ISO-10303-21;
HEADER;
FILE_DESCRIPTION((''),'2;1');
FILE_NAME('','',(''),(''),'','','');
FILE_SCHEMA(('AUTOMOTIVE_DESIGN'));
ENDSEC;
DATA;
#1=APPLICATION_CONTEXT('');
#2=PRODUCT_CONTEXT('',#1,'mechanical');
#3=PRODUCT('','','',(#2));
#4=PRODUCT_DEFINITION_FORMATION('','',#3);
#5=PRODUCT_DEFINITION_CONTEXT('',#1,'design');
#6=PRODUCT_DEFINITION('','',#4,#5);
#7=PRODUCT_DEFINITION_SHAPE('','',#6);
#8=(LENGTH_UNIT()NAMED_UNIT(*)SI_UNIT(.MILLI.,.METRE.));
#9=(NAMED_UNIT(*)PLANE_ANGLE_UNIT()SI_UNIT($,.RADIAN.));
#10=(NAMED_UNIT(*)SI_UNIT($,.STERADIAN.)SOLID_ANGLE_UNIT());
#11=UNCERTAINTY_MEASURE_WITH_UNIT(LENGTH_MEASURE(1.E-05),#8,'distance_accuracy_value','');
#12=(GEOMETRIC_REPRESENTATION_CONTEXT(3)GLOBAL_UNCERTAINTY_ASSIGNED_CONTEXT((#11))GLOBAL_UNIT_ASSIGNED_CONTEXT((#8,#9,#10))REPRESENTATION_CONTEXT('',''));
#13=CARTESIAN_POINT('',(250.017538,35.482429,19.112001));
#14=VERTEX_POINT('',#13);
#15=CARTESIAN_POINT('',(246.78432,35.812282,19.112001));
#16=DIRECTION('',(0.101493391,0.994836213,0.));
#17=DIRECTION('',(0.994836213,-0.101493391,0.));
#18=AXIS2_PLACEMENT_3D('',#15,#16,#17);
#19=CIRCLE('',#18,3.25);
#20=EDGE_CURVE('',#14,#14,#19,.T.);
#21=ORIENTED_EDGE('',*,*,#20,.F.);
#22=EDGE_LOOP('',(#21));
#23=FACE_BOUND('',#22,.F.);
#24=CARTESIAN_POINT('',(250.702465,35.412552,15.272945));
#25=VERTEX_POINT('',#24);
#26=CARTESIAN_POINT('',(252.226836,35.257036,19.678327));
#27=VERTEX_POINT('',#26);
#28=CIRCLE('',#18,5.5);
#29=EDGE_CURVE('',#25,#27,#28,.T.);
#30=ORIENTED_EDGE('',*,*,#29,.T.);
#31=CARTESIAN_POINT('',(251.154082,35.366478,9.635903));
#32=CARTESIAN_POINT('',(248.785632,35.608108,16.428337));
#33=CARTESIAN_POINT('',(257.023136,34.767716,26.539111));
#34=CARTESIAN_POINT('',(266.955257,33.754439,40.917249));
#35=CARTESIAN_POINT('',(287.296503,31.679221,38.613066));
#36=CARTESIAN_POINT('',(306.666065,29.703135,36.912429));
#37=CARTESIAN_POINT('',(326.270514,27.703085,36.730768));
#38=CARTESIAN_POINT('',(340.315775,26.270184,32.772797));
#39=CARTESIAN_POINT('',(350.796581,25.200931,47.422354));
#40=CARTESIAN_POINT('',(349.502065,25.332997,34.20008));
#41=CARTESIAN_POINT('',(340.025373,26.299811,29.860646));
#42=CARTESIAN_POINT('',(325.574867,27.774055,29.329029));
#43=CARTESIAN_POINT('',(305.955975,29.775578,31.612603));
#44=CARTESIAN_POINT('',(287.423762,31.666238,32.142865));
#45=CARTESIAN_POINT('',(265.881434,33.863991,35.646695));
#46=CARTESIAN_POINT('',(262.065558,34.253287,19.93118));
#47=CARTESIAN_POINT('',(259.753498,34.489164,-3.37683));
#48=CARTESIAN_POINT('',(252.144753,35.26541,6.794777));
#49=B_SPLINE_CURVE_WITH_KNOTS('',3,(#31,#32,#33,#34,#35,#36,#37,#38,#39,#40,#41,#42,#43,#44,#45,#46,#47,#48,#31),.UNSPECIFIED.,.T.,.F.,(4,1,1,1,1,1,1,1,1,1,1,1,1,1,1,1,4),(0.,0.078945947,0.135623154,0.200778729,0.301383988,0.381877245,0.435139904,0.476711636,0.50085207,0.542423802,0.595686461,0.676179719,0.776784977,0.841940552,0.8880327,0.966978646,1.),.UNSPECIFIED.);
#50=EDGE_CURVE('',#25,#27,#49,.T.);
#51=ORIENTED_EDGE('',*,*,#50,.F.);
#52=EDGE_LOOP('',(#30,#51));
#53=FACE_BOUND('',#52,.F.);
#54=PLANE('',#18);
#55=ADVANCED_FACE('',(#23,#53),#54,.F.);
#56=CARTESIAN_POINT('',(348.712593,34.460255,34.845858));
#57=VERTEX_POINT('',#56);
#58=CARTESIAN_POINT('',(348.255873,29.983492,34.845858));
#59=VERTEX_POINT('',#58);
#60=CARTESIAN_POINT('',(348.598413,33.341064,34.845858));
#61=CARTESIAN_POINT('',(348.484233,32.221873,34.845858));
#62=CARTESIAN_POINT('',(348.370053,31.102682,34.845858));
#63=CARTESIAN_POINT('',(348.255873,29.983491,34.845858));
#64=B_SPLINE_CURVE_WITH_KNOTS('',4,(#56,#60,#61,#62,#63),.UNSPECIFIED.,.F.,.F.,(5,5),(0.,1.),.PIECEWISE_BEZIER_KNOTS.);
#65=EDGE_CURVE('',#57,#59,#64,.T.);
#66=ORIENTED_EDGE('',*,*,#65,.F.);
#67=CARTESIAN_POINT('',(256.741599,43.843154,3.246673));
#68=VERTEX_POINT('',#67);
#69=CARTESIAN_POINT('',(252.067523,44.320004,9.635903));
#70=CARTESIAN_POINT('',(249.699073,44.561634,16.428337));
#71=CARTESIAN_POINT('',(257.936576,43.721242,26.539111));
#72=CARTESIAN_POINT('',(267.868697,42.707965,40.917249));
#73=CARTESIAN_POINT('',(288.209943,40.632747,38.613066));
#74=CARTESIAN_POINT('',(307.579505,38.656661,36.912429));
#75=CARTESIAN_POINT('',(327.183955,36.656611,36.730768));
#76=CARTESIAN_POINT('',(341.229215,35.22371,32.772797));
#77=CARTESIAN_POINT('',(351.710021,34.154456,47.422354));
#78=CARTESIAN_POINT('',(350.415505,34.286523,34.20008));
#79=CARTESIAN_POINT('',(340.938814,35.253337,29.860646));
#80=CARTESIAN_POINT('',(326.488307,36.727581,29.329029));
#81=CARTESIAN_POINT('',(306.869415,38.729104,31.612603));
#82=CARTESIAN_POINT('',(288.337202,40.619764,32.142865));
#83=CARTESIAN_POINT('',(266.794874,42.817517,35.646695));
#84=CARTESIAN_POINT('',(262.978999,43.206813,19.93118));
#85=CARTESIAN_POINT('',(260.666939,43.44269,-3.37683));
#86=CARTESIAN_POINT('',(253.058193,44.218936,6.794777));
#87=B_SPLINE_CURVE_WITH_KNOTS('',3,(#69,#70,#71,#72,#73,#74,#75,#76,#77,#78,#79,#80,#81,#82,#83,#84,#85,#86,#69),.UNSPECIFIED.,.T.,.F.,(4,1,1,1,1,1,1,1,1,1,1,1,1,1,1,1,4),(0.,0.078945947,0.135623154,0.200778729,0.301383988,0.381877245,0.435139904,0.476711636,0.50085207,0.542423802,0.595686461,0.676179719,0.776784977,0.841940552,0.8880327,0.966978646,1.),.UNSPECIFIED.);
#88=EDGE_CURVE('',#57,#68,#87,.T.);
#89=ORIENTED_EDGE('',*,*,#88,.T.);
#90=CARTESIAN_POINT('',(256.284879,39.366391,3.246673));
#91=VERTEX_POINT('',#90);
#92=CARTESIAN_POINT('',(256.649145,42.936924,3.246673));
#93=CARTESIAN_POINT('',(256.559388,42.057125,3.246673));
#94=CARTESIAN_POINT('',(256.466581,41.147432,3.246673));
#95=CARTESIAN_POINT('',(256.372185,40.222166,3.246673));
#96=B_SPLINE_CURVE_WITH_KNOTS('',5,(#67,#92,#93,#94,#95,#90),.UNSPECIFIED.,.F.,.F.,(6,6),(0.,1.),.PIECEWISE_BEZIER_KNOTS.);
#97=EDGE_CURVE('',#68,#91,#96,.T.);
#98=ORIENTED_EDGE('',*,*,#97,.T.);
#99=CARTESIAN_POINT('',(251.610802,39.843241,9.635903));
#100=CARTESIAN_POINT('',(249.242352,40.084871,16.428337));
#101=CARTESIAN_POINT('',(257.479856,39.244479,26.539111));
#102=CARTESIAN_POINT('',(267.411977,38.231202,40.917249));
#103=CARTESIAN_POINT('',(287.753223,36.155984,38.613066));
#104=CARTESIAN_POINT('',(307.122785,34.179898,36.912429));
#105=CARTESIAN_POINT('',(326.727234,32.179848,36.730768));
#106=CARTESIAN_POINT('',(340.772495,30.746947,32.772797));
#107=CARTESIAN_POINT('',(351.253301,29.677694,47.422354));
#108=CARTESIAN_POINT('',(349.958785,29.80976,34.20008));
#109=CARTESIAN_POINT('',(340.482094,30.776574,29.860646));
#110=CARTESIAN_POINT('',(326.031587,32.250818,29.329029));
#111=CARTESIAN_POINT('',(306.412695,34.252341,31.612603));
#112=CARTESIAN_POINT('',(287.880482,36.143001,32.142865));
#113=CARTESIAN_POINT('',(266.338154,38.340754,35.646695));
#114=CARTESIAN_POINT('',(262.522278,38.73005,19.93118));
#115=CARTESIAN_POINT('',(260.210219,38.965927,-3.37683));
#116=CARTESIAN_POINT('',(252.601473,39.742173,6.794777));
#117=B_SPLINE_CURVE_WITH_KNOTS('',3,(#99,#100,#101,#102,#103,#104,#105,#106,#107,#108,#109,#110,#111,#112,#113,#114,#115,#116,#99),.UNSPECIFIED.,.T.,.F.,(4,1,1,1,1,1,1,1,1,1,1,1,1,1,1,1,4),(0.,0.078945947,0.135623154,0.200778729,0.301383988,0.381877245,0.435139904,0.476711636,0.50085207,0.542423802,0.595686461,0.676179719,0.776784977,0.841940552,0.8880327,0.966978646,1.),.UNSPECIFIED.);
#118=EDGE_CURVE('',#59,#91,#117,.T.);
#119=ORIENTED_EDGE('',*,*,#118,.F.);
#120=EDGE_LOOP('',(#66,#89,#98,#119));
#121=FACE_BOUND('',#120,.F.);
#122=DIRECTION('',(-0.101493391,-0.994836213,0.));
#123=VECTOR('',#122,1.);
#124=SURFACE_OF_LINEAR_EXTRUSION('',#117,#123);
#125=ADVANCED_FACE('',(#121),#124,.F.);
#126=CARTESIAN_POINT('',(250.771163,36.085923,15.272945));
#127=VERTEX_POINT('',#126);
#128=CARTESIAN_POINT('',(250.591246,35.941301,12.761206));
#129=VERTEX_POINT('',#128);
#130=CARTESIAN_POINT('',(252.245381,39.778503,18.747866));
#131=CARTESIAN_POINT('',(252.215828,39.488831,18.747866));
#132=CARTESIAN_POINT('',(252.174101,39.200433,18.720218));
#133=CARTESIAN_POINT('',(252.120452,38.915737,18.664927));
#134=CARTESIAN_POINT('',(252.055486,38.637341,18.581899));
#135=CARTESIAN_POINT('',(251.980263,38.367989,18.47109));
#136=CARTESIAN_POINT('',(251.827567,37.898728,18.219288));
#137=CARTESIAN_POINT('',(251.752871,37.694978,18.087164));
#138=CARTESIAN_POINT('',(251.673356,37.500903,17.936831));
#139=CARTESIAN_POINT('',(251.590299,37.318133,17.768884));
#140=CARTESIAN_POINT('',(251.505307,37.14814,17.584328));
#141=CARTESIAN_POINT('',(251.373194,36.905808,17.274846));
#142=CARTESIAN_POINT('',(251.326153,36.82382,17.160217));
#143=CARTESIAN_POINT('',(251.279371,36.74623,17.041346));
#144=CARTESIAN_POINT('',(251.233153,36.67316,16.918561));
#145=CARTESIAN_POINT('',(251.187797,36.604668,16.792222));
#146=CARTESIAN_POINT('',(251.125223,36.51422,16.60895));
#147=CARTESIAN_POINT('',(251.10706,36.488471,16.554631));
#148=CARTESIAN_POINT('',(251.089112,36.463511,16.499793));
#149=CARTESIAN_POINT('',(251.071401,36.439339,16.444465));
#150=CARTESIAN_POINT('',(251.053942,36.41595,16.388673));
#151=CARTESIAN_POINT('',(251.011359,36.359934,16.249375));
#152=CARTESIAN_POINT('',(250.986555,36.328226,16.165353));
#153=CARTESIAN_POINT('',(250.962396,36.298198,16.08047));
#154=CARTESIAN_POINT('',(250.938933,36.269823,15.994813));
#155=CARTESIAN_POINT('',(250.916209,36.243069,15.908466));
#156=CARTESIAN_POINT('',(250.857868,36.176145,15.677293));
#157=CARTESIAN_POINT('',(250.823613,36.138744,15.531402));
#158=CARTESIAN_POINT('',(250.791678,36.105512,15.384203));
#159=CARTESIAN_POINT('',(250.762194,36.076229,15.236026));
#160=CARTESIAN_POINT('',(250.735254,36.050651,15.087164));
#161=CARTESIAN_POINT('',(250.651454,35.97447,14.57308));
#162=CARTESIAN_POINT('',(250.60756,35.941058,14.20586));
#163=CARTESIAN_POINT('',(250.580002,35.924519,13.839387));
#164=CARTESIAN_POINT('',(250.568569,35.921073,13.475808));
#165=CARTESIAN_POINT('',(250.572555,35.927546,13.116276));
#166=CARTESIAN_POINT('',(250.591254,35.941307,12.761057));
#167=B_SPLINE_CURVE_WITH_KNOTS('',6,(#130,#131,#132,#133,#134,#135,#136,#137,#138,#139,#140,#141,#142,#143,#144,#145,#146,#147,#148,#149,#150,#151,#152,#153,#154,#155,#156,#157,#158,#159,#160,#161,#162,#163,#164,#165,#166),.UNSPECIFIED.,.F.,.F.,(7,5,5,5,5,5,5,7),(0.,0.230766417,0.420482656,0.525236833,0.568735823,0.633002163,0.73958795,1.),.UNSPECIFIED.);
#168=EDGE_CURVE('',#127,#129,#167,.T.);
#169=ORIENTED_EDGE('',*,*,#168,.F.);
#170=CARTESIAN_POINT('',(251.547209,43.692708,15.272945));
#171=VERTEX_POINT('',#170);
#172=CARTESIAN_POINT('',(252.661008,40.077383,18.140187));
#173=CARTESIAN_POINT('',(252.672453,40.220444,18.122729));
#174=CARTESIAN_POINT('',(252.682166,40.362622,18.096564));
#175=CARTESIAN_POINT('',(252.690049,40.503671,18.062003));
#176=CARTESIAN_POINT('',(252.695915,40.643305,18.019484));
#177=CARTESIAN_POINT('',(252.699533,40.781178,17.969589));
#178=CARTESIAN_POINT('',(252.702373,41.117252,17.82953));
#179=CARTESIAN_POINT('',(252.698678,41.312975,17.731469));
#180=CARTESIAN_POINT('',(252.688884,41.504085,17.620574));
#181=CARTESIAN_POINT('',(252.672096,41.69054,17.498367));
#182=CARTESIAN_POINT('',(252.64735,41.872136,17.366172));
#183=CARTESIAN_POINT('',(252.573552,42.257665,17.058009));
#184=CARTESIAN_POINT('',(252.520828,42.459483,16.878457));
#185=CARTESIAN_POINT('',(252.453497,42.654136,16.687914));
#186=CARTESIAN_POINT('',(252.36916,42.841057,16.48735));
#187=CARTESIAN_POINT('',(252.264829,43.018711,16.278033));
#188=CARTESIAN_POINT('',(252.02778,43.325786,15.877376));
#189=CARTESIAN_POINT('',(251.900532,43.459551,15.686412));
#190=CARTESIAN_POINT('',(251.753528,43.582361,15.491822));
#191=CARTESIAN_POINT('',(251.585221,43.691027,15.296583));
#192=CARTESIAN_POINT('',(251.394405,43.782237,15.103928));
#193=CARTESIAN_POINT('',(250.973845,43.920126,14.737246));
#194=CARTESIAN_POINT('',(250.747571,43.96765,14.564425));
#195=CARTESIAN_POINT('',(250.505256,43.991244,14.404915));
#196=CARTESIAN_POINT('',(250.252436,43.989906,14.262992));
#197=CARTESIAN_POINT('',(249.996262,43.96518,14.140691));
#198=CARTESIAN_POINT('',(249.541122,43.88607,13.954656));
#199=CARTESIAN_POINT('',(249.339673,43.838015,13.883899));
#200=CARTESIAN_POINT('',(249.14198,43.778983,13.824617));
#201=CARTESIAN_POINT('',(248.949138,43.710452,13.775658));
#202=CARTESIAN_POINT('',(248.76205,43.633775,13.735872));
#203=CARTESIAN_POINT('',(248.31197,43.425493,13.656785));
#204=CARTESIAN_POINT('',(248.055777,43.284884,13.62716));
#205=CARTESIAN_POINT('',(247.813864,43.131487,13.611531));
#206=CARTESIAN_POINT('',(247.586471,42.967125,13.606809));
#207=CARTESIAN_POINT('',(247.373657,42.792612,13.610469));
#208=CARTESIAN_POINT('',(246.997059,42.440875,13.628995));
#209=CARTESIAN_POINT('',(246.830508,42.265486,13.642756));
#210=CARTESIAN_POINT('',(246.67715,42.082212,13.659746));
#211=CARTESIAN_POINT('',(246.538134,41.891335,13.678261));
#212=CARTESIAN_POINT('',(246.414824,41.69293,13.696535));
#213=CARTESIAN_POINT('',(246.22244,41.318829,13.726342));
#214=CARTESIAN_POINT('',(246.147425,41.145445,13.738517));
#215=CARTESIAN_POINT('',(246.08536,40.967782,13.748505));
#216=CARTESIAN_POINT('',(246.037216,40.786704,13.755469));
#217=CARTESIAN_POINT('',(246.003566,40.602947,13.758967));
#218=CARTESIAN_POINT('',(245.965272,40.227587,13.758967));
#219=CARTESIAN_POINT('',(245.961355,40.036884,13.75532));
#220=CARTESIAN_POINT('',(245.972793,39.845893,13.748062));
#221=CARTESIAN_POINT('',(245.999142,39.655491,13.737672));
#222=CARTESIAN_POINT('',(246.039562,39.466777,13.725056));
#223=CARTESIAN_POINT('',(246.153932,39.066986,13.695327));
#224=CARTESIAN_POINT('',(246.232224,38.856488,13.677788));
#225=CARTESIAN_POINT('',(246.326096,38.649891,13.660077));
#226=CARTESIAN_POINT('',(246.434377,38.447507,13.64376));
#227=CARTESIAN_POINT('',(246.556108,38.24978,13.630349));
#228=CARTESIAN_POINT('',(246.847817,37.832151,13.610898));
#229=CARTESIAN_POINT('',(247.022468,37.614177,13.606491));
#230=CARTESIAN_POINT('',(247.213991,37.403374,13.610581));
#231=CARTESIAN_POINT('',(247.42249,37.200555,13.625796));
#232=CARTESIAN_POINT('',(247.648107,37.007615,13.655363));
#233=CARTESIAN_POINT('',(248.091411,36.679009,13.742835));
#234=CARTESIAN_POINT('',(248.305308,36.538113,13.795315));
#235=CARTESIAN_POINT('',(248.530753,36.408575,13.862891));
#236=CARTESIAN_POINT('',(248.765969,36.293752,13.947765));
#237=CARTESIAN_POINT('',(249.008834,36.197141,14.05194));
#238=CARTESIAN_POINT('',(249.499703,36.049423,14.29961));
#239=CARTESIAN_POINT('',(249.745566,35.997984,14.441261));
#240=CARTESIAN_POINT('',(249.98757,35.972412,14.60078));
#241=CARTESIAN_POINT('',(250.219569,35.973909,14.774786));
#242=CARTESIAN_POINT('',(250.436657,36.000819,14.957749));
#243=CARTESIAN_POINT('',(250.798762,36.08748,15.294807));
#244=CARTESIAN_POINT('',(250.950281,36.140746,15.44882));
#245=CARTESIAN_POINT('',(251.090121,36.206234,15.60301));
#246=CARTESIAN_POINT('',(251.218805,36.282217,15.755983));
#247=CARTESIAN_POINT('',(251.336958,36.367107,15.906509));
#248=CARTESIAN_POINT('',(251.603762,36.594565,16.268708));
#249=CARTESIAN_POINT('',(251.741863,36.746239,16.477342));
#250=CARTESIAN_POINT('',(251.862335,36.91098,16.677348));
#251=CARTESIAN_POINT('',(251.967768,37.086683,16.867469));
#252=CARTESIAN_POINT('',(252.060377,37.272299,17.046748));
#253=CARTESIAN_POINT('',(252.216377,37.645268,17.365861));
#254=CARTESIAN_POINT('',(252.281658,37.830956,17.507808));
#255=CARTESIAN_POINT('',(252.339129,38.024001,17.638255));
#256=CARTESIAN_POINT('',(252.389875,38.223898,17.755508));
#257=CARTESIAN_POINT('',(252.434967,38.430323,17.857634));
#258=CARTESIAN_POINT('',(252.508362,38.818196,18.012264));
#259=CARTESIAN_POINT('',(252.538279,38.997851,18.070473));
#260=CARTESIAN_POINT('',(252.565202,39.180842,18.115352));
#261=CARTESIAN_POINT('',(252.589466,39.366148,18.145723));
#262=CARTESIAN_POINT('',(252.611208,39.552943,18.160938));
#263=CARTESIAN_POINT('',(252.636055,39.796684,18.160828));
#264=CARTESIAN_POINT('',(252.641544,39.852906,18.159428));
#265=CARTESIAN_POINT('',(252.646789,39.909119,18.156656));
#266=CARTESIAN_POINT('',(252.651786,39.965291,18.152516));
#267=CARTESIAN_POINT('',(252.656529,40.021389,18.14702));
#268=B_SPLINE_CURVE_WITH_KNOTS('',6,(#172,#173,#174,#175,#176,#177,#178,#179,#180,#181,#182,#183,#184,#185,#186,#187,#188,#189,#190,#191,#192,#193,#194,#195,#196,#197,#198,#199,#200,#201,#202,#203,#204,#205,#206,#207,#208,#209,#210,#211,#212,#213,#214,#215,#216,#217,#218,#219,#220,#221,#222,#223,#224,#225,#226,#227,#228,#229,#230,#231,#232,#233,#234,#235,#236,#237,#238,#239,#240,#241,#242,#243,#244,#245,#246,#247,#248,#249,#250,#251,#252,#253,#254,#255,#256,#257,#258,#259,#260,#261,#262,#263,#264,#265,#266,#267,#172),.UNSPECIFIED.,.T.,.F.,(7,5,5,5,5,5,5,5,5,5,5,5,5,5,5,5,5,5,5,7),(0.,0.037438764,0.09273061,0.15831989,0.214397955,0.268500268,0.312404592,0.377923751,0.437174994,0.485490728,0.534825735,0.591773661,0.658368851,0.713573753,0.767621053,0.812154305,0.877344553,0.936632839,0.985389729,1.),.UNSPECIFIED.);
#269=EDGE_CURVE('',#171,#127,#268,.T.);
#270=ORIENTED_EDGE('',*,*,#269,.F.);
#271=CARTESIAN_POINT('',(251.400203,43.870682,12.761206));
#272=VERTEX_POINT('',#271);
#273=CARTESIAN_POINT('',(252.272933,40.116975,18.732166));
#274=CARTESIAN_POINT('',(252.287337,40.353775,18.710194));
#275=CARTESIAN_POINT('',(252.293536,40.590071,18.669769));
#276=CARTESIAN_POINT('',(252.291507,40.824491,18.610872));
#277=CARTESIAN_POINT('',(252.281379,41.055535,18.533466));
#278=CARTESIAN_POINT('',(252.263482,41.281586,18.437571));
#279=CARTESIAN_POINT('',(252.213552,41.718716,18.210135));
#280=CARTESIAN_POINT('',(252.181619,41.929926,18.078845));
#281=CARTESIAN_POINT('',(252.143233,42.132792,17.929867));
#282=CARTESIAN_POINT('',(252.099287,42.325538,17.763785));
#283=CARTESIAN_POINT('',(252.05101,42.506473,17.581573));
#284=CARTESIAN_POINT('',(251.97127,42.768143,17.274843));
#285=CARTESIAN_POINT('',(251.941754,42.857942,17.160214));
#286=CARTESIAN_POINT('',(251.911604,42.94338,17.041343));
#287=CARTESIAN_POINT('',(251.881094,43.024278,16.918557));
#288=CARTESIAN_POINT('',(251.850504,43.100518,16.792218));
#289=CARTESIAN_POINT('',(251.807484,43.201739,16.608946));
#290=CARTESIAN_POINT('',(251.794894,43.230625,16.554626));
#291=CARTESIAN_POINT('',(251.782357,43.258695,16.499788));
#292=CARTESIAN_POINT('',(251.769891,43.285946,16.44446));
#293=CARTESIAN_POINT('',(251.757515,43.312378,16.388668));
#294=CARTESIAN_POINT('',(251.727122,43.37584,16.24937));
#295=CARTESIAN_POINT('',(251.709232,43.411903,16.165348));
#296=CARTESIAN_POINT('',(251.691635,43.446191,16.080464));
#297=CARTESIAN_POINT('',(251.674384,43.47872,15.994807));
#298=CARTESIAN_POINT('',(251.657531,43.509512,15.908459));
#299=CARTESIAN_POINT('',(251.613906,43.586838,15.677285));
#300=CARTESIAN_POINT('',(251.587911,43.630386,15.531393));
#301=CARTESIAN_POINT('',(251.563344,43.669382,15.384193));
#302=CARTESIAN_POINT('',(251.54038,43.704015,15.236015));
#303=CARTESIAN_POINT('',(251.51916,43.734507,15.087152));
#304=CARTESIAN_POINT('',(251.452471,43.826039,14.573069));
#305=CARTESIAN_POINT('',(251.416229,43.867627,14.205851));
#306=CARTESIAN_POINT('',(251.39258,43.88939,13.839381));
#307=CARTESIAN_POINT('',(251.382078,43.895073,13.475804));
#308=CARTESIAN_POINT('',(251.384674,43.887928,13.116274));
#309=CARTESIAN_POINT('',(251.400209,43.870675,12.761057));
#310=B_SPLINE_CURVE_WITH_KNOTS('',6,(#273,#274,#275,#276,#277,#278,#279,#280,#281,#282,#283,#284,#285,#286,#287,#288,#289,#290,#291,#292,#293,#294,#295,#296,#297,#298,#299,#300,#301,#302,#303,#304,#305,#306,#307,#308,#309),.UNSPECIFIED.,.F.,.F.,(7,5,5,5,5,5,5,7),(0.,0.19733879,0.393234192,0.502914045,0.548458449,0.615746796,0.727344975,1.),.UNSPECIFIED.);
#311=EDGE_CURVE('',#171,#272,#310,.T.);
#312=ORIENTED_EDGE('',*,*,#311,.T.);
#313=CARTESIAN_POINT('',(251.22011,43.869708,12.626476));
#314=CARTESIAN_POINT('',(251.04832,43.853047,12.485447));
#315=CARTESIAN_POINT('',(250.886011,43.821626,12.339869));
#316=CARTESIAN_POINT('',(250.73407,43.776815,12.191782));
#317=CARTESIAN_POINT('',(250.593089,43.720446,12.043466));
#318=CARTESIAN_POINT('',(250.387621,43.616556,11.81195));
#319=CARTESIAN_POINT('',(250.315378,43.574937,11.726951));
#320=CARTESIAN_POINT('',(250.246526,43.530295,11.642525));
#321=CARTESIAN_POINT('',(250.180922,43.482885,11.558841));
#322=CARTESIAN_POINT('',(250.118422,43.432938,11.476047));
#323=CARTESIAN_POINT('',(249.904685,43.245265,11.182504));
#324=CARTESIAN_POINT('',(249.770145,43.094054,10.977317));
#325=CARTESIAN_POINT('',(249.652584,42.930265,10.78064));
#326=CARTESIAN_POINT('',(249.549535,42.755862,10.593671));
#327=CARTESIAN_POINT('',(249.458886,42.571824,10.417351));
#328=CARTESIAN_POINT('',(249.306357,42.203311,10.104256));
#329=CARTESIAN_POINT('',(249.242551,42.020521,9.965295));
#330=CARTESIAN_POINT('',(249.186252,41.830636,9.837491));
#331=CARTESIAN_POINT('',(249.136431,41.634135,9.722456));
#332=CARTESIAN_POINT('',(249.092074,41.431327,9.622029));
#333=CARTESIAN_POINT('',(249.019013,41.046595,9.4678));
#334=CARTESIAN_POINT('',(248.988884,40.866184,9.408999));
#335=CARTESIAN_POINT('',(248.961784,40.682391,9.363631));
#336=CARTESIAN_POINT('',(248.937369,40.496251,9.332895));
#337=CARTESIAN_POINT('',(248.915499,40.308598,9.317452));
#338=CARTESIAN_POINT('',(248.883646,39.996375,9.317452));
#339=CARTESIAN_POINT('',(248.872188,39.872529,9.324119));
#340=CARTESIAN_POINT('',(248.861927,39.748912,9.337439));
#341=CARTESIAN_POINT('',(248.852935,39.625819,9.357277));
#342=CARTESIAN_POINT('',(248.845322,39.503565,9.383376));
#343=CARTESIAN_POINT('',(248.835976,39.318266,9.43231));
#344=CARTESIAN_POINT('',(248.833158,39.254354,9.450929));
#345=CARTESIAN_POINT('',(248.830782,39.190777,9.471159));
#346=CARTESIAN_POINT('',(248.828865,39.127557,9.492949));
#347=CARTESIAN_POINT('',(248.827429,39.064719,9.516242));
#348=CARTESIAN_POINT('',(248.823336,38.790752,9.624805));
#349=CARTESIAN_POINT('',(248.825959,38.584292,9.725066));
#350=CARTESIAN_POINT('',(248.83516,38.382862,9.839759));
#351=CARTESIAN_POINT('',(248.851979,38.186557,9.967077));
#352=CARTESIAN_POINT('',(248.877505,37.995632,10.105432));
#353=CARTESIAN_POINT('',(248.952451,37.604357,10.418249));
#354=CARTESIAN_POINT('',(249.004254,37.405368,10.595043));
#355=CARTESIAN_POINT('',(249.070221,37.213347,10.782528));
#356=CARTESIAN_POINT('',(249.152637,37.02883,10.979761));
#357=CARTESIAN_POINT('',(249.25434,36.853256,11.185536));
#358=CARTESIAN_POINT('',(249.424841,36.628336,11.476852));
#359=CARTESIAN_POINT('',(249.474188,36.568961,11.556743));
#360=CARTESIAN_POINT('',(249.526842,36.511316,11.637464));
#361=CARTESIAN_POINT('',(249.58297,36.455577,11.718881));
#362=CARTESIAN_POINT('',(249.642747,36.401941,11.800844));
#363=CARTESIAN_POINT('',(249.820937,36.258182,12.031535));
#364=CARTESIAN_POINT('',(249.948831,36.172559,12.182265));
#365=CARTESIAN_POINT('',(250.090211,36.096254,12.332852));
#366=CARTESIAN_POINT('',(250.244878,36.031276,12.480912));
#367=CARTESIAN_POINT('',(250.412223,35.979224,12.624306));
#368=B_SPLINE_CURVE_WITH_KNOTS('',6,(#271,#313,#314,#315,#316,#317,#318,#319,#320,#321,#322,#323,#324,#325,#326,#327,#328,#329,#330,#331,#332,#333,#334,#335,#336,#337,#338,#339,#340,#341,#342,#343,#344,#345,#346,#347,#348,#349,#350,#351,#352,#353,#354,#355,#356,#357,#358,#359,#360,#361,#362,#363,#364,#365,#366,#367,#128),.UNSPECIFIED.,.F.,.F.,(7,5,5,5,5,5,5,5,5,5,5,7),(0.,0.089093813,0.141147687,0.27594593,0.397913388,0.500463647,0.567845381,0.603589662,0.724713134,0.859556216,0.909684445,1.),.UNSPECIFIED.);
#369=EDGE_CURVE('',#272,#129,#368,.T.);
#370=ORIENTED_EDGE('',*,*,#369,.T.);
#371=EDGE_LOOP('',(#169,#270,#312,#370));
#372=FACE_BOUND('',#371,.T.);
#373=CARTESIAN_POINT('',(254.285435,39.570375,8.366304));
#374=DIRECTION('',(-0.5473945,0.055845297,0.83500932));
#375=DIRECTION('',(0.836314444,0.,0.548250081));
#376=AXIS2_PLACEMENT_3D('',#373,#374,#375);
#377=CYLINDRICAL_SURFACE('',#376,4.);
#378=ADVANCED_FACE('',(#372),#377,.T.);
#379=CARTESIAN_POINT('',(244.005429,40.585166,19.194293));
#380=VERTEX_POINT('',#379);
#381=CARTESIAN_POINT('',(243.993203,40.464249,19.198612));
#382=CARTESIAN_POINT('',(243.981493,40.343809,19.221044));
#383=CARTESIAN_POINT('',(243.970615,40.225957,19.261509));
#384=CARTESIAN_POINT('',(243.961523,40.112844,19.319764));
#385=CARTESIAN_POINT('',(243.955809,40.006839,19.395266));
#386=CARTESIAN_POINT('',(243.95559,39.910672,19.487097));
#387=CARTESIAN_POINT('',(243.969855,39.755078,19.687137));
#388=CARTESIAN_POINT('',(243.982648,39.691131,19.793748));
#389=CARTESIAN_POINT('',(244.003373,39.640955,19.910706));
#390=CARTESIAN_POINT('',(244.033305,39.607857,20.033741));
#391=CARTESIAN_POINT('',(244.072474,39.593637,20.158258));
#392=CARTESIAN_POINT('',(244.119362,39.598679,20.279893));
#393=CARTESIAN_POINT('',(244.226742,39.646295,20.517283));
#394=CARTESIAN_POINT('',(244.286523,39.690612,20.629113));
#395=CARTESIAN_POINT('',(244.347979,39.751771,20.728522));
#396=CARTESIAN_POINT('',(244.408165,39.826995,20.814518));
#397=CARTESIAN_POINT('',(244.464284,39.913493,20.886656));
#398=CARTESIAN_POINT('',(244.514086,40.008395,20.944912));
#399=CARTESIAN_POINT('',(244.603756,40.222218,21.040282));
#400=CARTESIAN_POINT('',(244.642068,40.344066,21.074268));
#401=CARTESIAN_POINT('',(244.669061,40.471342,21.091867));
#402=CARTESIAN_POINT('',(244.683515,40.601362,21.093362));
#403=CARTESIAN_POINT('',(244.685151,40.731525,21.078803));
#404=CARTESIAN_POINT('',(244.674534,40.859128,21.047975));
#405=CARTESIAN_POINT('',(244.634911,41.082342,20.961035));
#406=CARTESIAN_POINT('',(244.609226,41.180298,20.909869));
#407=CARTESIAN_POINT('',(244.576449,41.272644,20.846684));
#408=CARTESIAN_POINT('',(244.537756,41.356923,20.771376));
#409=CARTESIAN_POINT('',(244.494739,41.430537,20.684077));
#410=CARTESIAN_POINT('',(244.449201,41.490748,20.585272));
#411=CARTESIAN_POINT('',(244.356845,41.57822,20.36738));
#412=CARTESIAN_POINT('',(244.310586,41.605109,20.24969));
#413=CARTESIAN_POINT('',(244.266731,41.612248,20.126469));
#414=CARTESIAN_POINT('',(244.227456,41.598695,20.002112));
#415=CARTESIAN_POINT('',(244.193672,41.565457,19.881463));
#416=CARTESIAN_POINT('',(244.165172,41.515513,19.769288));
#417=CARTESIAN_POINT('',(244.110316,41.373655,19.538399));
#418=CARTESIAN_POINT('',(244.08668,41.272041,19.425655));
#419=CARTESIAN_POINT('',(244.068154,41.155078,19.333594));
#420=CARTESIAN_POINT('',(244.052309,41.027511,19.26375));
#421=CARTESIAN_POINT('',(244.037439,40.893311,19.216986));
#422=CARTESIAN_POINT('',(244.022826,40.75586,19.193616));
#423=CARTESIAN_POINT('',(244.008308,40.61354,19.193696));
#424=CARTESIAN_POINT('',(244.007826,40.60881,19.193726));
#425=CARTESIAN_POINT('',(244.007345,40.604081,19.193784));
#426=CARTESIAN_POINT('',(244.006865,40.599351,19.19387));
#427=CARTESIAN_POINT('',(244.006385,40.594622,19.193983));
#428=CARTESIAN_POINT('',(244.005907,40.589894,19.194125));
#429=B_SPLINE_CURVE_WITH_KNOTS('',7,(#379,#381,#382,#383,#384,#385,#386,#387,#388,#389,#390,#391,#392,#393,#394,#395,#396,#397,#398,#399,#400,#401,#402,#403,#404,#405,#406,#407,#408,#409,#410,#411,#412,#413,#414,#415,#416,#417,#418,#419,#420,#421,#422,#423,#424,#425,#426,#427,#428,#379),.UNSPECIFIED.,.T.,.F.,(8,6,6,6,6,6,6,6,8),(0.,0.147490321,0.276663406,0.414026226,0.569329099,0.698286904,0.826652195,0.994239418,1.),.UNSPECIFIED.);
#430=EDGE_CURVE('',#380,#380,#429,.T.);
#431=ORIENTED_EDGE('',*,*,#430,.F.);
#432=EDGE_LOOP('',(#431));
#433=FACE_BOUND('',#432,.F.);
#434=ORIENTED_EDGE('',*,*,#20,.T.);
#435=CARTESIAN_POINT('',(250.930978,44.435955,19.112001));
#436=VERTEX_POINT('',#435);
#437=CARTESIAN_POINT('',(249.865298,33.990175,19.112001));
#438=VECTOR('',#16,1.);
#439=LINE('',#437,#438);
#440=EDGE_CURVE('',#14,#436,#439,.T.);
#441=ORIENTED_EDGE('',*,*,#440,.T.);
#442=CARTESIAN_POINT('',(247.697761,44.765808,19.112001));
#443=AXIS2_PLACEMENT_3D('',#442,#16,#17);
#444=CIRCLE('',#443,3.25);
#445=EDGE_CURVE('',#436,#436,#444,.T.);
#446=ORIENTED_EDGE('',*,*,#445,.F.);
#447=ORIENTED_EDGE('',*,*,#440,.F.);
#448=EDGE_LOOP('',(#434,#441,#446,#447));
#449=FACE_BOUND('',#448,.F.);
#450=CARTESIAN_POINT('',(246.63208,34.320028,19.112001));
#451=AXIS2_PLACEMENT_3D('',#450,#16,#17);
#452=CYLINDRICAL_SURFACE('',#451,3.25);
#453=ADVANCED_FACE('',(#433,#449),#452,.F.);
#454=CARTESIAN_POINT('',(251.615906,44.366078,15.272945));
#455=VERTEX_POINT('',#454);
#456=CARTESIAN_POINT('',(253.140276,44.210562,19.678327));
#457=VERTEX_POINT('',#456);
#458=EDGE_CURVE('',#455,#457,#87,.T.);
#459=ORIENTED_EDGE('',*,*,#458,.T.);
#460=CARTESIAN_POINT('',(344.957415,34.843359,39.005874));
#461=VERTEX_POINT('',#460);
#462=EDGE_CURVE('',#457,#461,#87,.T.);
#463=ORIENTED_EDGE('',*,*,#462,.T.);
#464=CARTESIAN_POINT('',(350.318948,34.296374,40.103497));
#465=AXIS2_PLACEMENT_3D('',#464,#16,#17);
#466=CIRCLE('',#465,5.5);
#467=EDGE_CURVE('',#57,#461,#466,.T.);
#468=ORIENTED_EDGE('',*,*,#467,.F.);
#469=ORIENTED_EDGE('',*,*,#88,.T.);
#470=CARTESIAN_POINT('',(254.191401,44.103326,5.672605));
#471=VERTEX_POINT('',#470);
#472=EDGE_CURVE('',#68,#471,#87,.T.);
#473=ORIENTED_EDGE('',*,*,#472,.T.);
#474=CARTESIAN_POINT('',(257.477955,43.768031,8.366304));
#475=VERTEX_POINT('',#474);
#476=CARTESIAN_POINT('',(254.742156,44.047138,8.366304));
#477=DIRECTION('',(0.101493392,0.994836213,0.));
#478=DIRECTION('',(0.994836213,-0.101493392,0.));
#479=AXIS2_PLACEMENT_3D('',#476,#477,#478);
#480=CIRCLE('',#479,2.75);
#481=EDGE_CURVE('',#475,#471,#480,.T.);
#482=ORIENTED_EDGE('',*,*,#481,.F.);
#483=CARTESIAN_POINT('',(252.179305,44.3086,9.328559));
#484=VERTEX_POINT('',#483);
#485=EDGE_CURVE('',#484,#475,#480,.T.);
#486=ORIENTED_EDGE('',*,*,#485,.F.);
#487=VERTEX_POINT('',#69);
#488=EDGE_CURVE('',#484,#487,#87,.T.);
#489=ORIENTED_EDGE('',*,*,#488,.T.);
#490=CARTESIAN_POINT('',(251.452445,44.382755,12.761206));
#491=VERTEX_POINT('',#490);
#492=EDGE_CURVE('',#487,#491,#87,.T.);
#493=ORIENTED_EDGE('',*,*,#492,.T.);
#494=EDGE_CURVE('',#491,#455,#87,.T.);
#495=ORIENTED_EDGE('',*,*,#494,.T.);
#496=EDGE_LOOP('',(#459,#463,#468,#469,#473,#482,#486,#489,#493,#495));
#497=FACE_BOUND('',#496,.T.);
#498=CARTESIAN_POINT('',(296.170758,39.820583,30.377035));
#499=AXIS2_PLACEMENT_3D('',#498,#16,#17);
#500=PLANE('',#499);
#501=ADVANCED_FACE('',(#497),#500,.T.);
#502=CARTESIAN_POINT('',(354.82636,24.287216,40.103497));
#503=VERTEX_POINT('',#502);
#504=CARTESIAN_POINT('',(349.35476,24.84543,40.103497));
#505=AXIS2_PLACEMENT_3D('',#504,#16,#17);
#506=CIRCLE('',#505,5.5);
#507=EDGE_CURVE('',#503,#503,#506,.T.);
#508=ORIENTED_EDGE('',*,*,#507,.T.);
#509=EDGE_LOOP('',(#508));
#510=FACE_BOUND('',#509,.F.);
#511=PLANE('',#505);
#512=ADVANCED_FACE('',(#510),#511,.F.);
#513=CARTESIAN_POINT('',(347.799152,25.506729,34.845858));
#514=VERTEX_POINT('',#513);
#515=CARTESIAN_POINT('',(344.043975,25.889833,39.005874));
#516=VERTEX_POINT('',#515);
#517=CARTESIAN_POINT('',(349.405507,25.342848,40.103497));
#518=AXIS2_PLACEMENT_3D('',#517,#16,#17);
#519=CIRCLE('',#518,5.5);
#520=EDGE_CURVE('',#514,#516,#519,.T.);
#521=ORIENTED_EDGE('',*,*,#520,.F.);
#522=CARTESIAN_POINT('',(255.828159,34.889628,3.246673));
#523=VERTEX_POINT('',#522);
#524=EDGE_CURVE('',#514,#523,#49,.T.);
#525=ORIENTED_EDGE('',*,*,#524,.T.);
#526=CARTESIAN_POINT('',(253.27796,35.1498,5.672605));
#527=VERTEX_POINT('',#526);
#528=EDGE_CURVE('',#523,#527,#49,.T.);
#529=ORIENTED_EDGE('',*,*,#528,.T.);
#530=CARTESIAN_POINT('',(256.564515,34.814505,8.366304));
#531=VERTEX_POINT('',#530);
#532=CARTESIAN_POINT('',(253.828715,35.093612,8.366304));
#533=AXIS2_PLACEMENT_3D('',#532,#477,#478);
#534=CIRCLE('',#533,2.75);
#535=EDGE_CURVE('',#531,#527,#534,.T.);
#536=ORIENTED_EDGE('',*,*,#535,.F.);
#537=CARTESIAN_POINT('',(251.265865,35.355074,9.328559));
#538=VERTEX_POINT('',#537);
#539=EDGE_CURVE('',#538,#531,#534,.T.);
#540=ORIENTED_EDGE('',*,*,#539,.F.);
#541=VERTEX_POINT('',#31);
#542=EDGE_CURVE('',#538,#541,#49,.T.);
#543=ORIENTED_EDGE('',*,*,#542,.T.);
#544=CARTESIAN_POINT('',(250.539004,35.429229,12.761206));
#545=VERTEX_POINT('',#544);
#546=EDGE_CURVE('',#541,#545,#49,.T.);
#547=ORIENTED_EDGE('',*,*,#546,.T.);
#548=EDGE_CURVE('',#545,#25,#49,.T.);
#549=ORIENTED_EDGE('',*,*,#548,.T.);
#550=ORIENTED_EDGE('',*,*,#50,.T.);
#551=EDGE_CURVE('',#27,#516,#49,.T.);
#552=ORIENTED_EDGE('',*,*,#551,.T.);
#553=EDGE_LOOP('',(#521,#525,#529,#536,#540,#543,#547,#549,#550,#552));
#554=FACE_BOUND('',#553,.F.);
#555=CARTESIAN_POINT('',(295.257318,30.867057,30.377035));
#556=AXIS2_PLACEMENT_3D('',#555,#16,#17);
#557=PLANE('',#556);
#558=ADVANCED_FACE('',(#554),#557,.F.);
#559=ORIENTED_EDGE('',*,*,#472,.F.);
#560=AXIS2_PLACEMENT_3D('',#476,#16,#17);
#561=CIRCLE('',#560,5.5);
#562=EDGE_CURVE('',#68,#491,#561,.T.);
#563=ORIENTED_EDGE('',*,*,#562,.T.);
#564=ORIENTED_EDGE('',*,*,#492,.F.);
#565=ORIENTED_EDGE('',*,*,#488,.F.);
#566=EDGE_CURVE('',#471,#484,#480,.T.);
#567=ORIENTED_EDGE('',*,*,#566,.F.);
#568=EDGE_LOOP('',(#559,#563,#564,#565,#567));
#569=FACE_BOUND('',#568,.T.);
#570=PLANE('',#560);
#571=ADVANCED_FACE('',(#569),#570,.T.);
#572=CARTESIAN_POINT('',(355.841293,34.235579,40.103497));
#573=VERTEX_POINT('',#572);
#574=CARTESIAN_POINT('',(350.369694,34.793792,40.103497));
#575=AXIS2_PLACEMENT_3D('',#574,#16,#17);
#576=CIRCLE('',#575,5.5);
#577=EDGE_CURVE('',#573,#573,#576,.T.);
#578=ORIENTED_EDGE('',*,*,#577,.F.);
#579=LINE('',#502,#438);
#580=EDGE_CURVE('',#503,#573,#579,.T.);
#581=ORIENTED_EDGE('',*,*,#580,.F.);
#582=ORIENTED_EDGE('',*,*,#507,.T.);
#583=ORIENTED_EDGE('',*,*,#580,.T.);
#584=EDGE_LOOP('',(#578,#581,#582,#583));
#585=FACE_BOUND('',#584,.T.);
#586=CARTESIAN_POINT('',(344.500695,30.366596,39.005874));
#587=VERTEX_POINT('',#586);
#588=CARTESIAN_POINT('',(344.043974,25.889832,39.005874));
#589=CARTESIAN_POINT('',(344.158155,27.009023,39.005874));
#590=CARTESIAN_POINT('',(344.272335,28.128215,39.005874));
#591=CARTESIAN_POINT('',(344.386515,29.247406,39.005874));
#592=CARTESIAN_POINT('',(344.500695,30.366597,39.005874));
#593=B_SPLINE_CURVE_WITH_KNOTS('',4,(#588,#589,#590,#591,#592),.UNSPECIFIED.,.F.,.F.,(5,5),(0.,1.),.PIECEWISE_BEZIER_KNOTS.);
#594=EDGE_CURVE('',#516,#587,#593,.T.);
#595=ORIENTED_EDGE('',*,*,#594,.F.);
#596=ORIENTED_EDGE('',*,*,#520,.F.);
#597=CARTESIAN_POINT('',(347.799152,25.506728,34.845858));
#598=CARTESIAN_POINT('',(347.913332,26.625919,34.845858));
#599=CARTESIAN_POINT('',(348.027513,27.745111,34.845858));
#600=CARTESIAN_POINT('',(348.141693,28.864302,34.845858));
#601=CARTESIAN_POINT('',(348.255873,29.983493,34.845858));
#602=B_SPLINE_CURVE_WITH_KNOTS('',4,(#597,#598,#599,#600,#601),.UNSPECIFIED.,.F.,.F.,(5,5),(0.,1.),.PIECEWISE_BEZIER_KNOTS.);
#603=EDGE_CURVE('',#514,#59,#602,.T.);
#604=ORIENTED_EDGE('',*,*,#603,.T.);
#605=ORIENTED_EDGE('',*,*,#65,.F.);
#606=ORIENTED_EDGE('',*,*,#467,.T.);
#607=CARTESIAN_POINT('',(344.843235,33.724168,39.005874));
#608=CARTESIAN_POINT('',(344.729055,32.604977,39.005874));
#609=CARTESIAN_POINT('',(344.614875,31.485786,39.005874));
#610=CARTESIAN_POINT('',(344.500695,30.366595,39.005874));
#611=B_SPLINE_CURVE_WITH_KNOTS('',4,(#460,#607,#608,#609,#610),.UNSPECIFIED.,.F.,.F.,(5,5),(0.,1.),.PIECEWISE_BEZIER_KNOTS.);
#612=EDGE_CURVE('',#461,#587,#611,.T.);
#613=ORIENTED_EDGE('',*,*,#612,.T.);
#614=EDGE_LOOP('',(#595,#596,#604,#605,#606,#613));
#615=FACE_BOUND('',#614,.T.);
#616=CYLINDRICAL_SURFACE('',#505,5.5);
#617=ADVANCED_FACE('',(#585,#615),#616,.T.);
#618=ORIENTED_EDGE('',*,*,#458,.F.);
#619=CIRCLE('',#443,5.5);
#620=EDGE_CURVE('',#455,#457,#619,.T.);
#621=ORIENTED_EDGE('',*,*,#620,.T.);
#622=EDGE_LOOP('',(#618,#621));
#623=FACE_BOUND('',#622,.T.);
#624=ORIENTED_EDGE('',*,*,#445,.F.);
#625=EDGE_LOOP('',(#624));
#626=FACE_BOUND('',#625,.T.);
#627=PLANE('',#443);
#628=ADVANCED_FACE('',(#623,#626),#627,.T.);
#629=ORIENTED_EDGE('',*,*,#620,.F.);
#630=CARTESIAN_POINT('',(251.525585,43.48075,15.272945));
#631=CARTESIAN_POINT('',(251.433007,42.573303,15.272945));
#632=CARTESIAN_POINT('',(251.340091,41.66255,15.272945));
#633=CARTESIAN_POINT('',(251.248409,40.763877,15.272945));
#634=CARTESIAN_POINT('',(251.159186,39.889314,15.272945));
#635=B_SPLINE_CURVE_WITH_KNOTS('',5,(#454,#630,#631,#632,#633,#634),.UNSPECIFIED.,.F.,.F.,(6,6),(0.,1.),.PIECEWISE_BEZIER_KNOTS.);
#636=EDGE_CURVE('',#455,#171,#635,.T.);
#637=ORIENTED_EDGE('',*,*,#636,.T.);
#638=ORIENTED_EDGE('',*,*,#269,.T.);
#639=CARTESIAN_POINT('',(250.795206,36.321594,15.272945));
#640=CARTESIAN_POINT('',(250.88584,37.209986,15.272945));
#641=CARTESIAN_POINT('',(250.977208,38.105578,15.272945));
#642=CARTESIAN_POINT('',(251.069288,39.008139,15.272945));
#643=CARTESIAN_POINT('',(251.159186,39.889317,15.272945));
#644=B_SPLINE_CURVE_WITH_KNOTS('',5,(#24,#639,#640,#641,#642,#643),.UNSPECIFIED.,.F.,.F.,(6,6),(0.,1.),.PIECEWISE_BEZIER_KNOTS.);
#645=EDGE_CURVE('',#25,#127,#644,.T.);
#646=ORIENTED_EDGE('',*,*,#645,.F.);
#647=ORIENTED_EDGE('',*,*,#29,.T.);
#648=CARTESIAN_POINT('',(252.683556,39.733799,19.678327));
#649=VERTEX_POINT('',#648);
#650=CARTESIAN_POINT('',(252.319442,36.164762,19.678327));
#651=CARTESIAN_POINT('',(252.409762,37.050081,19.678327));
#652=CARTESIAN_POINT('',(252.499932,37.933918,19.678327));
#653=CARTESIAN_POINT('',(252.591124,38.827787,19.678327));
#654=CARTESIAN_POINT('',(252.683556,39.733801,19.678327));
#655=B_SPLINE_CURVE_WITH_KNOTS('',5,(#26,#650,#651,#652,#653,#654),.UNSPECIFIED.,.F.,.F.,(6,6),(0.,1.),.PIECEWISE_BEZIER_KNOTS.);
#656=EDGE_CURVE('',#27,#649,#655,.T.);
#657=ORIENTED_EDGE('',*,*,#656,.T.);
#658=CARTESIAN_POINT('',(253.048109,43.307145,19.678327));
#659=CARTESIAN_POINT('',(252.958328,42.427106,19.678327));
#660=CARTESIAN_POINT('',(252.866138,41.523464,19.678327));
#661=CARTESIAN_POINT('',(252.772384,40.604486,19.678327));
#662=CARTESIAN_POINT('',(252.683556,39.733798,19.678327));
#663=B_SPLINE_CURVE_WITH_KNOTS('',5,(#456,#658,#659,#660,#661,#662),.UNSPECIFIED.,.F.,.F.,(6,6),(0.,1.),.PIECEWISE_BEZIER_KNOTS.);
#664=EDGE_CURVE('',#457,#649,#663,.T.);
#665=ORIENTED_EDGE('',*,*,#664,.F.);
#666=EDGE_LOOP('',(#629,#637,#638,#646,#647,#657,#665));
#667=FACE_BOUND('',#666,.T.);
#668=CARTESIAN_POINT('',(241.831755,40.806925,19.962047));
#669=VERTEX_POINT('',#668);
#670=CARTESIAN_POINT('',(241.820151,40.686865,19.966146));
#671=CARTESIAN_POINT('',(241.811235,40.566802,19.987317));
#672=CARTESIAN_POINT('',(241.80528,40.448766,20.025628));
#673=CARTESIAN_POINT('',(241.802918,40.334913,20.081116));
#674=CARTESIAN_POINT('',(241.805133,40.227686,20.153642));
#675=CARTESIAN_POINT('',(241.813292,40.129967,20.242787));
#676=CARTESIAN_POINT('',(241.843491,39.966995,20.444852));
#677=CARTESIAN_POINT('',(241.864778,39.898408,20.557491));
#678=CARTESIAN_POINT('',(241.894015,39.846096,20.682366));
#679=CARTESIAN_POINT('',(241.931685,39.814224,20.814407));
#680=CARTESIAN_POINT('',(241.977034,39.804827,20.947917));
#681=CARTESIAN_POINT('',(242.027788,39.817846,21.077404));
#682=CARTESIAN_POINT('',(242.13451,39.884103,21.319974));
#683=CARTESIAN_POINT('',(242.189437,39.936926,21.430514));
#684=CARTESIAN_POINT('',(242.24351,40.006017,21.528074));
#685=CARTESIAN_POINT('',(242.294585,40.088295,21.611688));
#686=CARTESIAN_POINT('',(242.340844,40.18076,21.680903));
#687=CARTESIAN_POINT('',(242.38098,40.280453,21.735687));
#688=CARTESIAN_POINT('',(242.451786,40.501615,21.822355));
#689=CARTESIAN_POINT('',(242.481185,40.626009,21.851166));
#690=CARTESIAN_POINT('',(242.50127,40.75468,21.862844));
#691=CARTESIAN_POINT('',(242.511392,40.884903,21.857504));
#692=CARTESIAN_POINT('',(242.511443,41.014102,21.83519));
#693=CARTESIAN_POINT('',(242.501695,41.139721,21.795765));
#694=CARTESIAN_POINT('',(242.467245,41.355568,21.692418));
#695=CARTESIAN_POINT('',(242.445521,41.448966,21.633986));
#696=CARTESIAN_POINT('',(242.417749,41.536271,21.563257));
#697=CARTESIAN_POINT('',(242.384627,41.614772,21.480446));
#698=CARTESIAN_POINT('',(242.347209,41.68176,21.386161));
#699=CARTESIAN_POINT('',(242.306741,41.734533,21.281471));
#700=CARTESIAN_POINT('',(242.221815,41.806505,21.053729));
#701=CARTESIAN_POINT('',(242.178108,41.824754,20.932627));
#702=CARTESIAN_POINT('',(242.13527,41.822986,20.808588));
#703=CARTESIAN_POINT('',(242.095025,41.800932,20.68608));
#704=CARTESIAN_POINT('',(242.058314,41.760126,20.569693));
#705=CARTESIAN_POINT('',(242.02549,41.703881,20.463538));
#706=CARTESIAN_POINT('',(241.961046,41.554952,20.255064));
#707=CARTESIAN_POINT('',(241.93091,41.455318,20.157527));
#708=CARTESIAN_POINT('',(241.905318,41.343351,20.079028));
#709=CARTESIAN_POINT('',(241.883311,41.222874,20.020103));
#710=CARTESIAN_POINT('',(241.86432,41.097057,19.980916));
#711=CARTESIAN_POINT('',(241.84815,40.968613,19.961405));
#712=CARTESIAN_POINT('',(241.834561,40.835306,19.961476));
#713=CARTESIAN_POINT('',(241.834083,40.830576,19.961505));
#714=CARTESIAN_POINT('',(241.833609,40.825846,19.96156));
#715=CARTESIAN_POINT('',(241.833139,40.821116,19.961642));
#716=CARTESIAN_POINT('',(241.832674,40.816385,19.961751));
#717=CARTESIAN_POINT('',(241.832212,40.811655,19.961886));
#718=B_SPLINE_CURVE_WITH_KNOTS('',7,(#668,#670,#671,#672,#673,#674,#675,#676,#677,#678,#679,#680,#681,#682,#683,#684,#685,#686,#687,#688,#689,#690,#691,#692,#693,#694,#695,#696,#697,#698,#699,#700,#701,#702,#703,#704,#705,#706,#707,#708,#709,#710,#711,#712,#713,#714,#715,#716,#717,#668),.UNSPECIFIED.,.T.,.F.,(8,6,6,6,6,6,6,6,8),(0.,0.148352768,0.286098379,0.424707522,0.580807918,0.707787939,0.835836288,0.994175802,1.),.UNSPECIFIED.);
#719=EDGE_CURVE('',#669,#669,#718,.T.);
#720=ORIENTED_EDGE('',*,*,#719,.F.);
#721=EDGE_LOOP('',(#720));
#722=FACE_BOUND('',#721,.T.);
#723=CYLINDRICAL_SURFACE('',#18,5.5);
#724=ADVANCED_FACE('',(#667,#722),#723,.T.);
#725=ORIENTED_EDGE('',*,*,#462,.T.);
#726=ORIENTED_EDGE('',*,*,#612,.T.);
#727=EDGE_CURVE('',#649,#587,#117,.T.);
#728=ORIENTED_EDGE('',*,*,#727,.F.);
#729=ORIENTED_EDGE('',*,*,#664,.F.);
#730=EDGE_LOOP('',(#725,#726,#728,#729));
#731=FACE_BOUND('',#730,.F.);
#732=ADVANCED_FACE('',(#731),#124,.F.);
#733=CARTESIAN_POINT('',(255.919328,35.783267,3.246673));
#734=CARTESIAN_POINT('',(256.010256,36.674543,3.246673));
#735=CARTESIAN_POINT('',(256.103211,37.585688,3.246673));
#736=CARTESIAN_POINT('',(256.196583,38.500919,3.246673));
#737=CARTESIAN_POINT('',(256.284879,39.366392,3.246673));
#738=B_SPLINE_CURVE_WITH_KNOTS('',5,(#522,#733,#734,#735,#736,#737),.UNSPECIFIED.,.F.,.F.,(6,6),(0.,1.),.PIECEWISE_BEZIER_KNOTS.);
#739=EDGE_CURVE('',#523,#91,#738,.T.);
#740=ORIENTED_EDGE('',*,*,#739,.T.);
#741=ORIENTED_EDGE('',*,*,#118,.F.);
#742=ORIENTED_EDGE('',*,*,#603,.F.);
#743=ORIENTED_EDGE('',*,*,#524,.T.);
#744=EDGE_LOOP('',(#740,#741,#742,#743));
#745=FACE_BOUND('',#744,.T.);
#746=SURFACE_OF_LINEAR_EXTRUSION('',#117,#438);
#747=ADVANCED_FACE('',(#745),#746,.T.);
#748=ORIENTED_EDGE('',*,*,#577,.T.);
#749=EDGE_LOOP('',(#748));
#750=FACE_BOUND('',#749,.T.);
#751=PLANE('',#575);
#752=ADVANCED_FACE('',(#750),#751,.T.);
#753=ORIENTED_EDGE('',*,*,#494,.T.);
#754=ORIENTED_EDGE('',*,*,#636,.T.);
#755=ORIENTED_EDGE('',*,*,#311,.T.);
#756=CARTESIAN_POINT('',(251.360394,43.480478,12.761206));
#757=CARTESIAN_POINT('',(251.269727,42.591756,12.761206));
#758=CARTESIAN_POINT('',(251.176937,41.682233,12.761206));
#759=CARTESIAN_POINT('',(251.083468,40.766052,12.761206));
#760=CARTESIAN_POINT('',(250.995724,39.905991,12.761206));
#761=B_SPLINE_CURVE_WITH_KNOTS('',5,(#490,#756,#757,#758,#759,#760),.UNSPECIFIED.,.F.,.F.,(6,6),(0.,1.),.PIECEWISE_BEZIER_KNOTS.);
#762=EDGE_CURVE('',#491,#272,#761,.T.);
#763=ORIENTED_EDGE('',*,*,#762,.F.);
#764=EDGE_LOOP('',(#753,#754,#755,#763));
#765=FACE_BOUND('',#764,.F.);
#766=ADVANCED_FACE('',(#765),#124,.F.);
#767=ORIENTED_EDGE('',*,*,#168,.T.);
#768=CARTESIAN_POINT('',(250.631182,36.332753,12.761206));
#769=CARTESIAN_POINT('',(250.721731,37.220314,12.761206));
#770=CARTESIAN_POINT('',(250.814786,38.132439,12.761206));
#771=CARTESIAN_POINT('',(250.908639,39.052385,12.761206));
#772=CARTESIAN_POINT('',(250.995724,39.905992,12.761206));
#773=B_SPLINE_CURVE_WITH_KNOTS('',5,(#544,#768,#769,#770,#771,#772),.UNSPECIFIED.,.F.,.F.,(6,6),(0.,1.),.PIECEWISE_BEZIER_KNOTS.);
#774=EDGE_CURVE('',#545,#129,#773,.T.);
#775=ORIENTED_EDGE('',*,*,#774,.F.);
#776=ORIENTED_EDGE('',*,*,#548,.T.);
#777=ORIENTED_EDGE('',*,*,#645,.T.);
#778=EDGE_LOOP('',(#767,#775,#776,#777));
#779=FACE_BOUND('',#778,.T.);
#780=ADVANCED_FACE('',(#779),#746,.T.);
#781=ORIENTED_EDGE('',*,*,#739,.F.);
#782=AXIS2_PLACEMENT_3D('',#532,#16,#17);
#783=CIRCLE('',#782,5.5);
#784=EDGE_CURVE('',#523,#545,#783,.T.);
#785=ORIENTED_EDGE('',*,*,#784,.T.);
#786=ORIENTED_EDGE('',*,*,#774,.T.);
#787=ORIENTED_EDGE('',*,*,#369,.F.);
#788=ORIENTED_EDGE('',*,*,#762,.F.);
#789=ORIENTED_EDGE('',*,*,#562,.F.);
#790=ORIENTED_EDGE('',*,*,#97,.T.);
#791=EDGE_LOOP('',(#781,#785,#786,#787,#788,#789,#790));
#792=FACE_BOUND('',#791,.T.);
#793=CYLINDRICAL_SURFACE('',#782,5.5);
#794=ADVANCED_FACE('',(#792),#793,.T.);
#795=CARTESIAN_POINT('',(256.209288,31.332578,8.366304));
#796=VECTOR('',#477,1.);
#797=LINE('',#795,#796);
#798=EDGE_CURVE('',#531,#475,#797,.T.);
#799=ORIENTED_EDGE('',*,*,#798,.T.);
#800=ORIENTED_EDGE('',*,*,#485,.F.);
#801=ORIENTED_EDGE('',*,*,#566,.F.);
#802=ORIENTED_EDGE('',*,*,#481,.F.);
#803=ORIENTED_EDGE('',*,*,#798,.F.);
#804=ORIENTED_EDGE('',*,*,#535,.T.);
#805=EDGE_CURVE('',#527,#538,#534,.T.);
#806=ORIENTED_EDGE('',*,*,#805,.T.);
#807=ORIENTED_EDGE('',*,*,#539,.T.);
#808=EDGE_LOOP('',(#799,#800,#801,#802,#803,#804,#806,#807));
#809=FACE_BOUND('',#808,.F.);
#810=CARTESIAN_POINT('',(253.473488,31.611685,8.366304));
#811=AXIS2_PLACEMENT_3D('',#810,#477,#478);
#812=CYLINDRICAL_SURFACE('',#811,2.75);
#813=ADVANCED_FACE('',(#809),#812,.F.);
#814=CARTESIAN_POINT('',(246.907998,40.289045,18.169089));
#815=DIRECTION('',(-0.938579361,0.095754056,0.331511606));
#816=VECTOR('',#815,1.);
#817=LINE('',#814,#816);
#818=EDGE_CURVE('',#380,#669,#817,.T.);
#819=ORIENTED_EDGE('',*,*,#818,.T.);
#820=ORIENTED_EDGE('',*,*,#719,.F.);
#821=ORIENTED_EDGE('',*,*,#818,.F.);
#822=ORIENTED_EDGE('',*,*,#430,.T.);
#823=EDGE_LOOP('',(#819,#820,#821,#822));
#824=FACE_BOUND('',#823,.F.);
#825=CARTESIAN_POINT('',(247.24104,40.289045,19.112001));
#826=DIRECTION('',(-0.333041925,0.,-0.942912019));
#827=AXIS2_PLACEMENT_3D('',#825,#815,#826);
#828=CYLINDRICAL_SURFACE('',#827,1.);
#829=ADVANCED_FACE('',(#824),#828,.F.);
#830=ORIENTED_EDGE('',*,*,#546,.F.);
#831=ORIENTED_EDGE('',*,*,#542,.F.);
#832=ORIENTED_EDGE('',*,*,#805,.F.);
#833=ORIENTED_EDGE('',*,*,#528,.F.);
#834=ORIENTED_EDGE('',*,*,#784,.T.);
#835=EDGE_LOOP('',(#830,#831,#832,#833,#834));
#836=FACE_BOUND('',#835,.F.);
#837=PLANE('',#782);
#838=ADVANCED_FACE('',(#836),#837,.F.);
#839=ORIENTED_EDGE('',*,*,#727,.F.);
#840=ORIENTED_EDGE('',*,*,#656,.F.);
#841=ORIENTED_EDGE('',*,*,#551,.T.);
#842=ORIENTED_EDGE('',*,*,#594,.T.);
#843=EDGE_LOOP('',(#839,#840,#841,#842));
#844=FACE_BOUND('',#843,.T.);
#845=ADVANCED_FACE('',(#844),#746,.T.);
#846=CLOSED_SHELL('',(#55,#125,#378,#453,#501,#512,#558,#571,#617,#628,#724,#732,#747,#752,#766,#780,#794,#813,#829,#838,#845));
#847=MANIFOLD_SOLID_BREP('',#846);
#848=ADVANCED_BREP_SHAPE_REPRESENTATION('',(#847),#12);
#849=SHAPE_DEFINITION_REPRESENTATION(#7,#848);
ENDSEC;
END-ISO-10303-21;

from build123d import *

# Parameters (mm, degrees)
PALANCA_DEPTH                 = 4.5
BUJE_PIVOTE_PROFILE_R         = 5.5
BOLA_PROFILE_R                = 5.5
BRAZO_CABEZAL_PROFILE_R       = 4
OREJA_CABEZAL_PROFILE_R       = 5.5
AGUJERO_PIVOTE_PROFILE_R      = 2.75
ALOJAMIENTO_CABEZAL_PROFILE_R = 3.25
SALIDA_CABLE_PROFILE_R        = 1


with BuildPart() as part:
    # Sk_Palanca → Palanca (new, symmetric)
    with BuildSketch(Plane(origin=(6.614764097, 64.837786693, 0), x_dir=(-0.994836213398138, 0.10149339146789091, 0), z_dir=(-0.1014933914678909, -0.9948362133981379, 0))):
        with BuildLine():
            add(Edge.make_bspline(
                [(-246.267712097, -9.635902877), (-243.886968536, -16.428336605), (-252.167229885, -26.539110512), (-262.150904369, -40.917249125), (-282.597733448, -38.61306643), (-302.067834573, -36.912429156), (-321.774042894, -36.730768216), (-335.8922068, -32.77279684), (-346.42741419, -47.422354469), (-345.126178944, -34.200079595), (-335.600297869, -29.860646291), (-321.07478475, -29.32902891), (-301.354059006, -31.612602642), (-282.725652771, -32.142864553), (-261.071507606, -35.64669483), (-257.235825231, -19.931179522), (-254.911764508, 3.376830431), (-247.263524779, -6.794777206), (-246.267712097, -9.635902877)],
                knots=[0, 0, 0, 0, 0.078945947, 0.135623154, 0.200778729, 0.301383988, 0.381877245, 0.435139904, 0.476711636, 0.50085207, 0.542423802, 0.595686461, 0.676179719, 0.776784977, 0.841940552, 0.8880327, 0.966978646, 1, 1, 1, 1], degree=3))
        make_face()
    extrude(amount=PALANCA_DEPTH, both=True)

    # Buje_pivote: sweep along a curve in space
    with BuildLine() as buje_pivote_path:
        Line((253.82871512, 35.093611814, 8.366303886), (254.742155643, 44.047137735, 8.366303886))
    # Buje_pivote profile (on start of the path) → Buje_pivote (sweep)
    with BuildSketch(Plane(origin=(253.82871512, 35.093611814, 8.366303886), x_dir=(0.9948362133981379, -0.10149339146789141, 0), z_dir=(0.10149339146789141, 0.9948362133981379, 0))):
        Circle(BUJE_PIVOTE_PROFILE_R)
    sweep(path=buje_pivote_path.line)

    # Bola: sweep along a curve in space
    with BuildLine() as bola_path:
        Line((349.354760335, 24.845430088, 40.103497474), (350.369694249, 34.793792222, 40.103497474))
    # Bola profile (on start of the path) → Bola (sweep)
    with BuildSketch(Plane(origin=(349.354760335, 24.845430088, 40.103497474), x_dir=(0.9948362133981379, -0.101493391467892, 0), z_dir=(0.101493391467892, 0.9948362133981379, 0))):
        Circle(BOLA_PROFILE_R)
    sweep(path=bola_path.line)

    # Brazo_cabezal: sweep along a curve in space
    with BuildLine() as brazo_cabezal_path:
        Line((254.285435381, 39.570374774, 8.366303886), (247.241040254, 40.289045388, 19.112001157))
    # Brazo_cabezal profile (on start of the path) → Brazo_cabezal (sweep)
    with BuildSketch(Plane(origin=(254.285435381, 39.570374774, 8.366303886), x_dir=(0.8363144439647209, 0, 0.5482500805435233), z_dir=(-0.5473944999393169, 0.05584529746855661, 0.835009319820344))):
        Circle(BRAZO_CABEZAL_PROFILE_R)
    sweep(path=brazo_cabezal_path.line)

    # Oreja_cabezal: sweep along a curve in space
    with BuildLine() as oreja_cabezal_path:
        Line((246.784319992, 35.812282428, 19.112001157), (247.697760515, 44.765808349, 19.112001157))
    # Oreja_cabezal profile (on start of the path) → Oreja_cabezal (sweep)
    with BuildSketch(Plane(origin=(246.784319992, 35.812282428, 19.112001157), x_dir=(0.9948362133981379, -0.10149339146789141, 0), z_dir=(0.10149339146789141, 0.9948362133981379, 0))):
        Circle(OREJA_CABEZAL_PROFILE_R)
    sweep(path=oreja_cabezal_path.line)

    # Agujero_pivote: sweep along a curve in space
    with BuildLine() as agujero_pivote_path:
        Line((253.473488249, 31.611685067, 8.366303886), (255.097382513, 47.529064481, 8.366303886))
    # Agujero_pivote profile (on start of the path) → Agujero_pivote (sweep, cut)
    with BuildSketch(Plane(origin=(253.473488249, 31.611685067, 8.366303886), x_dir=(0.9948362133981381, -0.10149339146789058, 0), z_dir=(0.10149339146789058, 0.9948362133981381, 0))):
        Circle(AGUJERO_PIVOTE_PROFILE_R)
    sweep(path=agujero_pivote_path.line, mode=Mode.SUBTRACT)

    # Alojamiento_cabezal: sweep along a curve in space
    with BuildLine() as alojamiento_cabezal_path:
        Line((246.632079905, 34.320028108, 19.112001157), (247.850000602, 46.258062669, 19.112001157))
    # Alojamiento_cabezal profile (on start of the path) → Alojamiento_cabezal (sweep, cut)
    with BuildSketch(Plane(origin=(246.632079905, 34.320028108, 19.112001157), x_dir=(0.9948362133981378, -0.10149339146789292, 0), z_dir=(0.10149339146789292, 0.9948362133981378, 0))):
        Circle(ALOJAMIENTO_CABEZAL_PROFILE_R)
    sweep(path=alojamiento_cabezal_path.line, mode=Mode.SUBTRACT)

    # Salida_cable: sweep along a curve in space
    with BuildLine() as salida_cable_path:
        Line((247.241040254, 40.289045388, 19.112001157), (238.545113875, 41.176205554, 22.183452158))
    # Salida_cable profile (on start of the path) → Salida_cable (sweep, cut)
    with BuildSketch(Plane(origin=(247.241040254, 40.289045388, 19.112001157), x_dir=(-0.3330419255629734, 0, -0.9429120191286708), z_dir=(-0.9385793605381186, 0.09575405597409072, 0.33151160573404825))):
        Circle(SALIDA_CABLE_PROFILE_R)
    sweep(path=salida_cable_path.line, mode=Mode.SUBTRACT)


solid = part.part
